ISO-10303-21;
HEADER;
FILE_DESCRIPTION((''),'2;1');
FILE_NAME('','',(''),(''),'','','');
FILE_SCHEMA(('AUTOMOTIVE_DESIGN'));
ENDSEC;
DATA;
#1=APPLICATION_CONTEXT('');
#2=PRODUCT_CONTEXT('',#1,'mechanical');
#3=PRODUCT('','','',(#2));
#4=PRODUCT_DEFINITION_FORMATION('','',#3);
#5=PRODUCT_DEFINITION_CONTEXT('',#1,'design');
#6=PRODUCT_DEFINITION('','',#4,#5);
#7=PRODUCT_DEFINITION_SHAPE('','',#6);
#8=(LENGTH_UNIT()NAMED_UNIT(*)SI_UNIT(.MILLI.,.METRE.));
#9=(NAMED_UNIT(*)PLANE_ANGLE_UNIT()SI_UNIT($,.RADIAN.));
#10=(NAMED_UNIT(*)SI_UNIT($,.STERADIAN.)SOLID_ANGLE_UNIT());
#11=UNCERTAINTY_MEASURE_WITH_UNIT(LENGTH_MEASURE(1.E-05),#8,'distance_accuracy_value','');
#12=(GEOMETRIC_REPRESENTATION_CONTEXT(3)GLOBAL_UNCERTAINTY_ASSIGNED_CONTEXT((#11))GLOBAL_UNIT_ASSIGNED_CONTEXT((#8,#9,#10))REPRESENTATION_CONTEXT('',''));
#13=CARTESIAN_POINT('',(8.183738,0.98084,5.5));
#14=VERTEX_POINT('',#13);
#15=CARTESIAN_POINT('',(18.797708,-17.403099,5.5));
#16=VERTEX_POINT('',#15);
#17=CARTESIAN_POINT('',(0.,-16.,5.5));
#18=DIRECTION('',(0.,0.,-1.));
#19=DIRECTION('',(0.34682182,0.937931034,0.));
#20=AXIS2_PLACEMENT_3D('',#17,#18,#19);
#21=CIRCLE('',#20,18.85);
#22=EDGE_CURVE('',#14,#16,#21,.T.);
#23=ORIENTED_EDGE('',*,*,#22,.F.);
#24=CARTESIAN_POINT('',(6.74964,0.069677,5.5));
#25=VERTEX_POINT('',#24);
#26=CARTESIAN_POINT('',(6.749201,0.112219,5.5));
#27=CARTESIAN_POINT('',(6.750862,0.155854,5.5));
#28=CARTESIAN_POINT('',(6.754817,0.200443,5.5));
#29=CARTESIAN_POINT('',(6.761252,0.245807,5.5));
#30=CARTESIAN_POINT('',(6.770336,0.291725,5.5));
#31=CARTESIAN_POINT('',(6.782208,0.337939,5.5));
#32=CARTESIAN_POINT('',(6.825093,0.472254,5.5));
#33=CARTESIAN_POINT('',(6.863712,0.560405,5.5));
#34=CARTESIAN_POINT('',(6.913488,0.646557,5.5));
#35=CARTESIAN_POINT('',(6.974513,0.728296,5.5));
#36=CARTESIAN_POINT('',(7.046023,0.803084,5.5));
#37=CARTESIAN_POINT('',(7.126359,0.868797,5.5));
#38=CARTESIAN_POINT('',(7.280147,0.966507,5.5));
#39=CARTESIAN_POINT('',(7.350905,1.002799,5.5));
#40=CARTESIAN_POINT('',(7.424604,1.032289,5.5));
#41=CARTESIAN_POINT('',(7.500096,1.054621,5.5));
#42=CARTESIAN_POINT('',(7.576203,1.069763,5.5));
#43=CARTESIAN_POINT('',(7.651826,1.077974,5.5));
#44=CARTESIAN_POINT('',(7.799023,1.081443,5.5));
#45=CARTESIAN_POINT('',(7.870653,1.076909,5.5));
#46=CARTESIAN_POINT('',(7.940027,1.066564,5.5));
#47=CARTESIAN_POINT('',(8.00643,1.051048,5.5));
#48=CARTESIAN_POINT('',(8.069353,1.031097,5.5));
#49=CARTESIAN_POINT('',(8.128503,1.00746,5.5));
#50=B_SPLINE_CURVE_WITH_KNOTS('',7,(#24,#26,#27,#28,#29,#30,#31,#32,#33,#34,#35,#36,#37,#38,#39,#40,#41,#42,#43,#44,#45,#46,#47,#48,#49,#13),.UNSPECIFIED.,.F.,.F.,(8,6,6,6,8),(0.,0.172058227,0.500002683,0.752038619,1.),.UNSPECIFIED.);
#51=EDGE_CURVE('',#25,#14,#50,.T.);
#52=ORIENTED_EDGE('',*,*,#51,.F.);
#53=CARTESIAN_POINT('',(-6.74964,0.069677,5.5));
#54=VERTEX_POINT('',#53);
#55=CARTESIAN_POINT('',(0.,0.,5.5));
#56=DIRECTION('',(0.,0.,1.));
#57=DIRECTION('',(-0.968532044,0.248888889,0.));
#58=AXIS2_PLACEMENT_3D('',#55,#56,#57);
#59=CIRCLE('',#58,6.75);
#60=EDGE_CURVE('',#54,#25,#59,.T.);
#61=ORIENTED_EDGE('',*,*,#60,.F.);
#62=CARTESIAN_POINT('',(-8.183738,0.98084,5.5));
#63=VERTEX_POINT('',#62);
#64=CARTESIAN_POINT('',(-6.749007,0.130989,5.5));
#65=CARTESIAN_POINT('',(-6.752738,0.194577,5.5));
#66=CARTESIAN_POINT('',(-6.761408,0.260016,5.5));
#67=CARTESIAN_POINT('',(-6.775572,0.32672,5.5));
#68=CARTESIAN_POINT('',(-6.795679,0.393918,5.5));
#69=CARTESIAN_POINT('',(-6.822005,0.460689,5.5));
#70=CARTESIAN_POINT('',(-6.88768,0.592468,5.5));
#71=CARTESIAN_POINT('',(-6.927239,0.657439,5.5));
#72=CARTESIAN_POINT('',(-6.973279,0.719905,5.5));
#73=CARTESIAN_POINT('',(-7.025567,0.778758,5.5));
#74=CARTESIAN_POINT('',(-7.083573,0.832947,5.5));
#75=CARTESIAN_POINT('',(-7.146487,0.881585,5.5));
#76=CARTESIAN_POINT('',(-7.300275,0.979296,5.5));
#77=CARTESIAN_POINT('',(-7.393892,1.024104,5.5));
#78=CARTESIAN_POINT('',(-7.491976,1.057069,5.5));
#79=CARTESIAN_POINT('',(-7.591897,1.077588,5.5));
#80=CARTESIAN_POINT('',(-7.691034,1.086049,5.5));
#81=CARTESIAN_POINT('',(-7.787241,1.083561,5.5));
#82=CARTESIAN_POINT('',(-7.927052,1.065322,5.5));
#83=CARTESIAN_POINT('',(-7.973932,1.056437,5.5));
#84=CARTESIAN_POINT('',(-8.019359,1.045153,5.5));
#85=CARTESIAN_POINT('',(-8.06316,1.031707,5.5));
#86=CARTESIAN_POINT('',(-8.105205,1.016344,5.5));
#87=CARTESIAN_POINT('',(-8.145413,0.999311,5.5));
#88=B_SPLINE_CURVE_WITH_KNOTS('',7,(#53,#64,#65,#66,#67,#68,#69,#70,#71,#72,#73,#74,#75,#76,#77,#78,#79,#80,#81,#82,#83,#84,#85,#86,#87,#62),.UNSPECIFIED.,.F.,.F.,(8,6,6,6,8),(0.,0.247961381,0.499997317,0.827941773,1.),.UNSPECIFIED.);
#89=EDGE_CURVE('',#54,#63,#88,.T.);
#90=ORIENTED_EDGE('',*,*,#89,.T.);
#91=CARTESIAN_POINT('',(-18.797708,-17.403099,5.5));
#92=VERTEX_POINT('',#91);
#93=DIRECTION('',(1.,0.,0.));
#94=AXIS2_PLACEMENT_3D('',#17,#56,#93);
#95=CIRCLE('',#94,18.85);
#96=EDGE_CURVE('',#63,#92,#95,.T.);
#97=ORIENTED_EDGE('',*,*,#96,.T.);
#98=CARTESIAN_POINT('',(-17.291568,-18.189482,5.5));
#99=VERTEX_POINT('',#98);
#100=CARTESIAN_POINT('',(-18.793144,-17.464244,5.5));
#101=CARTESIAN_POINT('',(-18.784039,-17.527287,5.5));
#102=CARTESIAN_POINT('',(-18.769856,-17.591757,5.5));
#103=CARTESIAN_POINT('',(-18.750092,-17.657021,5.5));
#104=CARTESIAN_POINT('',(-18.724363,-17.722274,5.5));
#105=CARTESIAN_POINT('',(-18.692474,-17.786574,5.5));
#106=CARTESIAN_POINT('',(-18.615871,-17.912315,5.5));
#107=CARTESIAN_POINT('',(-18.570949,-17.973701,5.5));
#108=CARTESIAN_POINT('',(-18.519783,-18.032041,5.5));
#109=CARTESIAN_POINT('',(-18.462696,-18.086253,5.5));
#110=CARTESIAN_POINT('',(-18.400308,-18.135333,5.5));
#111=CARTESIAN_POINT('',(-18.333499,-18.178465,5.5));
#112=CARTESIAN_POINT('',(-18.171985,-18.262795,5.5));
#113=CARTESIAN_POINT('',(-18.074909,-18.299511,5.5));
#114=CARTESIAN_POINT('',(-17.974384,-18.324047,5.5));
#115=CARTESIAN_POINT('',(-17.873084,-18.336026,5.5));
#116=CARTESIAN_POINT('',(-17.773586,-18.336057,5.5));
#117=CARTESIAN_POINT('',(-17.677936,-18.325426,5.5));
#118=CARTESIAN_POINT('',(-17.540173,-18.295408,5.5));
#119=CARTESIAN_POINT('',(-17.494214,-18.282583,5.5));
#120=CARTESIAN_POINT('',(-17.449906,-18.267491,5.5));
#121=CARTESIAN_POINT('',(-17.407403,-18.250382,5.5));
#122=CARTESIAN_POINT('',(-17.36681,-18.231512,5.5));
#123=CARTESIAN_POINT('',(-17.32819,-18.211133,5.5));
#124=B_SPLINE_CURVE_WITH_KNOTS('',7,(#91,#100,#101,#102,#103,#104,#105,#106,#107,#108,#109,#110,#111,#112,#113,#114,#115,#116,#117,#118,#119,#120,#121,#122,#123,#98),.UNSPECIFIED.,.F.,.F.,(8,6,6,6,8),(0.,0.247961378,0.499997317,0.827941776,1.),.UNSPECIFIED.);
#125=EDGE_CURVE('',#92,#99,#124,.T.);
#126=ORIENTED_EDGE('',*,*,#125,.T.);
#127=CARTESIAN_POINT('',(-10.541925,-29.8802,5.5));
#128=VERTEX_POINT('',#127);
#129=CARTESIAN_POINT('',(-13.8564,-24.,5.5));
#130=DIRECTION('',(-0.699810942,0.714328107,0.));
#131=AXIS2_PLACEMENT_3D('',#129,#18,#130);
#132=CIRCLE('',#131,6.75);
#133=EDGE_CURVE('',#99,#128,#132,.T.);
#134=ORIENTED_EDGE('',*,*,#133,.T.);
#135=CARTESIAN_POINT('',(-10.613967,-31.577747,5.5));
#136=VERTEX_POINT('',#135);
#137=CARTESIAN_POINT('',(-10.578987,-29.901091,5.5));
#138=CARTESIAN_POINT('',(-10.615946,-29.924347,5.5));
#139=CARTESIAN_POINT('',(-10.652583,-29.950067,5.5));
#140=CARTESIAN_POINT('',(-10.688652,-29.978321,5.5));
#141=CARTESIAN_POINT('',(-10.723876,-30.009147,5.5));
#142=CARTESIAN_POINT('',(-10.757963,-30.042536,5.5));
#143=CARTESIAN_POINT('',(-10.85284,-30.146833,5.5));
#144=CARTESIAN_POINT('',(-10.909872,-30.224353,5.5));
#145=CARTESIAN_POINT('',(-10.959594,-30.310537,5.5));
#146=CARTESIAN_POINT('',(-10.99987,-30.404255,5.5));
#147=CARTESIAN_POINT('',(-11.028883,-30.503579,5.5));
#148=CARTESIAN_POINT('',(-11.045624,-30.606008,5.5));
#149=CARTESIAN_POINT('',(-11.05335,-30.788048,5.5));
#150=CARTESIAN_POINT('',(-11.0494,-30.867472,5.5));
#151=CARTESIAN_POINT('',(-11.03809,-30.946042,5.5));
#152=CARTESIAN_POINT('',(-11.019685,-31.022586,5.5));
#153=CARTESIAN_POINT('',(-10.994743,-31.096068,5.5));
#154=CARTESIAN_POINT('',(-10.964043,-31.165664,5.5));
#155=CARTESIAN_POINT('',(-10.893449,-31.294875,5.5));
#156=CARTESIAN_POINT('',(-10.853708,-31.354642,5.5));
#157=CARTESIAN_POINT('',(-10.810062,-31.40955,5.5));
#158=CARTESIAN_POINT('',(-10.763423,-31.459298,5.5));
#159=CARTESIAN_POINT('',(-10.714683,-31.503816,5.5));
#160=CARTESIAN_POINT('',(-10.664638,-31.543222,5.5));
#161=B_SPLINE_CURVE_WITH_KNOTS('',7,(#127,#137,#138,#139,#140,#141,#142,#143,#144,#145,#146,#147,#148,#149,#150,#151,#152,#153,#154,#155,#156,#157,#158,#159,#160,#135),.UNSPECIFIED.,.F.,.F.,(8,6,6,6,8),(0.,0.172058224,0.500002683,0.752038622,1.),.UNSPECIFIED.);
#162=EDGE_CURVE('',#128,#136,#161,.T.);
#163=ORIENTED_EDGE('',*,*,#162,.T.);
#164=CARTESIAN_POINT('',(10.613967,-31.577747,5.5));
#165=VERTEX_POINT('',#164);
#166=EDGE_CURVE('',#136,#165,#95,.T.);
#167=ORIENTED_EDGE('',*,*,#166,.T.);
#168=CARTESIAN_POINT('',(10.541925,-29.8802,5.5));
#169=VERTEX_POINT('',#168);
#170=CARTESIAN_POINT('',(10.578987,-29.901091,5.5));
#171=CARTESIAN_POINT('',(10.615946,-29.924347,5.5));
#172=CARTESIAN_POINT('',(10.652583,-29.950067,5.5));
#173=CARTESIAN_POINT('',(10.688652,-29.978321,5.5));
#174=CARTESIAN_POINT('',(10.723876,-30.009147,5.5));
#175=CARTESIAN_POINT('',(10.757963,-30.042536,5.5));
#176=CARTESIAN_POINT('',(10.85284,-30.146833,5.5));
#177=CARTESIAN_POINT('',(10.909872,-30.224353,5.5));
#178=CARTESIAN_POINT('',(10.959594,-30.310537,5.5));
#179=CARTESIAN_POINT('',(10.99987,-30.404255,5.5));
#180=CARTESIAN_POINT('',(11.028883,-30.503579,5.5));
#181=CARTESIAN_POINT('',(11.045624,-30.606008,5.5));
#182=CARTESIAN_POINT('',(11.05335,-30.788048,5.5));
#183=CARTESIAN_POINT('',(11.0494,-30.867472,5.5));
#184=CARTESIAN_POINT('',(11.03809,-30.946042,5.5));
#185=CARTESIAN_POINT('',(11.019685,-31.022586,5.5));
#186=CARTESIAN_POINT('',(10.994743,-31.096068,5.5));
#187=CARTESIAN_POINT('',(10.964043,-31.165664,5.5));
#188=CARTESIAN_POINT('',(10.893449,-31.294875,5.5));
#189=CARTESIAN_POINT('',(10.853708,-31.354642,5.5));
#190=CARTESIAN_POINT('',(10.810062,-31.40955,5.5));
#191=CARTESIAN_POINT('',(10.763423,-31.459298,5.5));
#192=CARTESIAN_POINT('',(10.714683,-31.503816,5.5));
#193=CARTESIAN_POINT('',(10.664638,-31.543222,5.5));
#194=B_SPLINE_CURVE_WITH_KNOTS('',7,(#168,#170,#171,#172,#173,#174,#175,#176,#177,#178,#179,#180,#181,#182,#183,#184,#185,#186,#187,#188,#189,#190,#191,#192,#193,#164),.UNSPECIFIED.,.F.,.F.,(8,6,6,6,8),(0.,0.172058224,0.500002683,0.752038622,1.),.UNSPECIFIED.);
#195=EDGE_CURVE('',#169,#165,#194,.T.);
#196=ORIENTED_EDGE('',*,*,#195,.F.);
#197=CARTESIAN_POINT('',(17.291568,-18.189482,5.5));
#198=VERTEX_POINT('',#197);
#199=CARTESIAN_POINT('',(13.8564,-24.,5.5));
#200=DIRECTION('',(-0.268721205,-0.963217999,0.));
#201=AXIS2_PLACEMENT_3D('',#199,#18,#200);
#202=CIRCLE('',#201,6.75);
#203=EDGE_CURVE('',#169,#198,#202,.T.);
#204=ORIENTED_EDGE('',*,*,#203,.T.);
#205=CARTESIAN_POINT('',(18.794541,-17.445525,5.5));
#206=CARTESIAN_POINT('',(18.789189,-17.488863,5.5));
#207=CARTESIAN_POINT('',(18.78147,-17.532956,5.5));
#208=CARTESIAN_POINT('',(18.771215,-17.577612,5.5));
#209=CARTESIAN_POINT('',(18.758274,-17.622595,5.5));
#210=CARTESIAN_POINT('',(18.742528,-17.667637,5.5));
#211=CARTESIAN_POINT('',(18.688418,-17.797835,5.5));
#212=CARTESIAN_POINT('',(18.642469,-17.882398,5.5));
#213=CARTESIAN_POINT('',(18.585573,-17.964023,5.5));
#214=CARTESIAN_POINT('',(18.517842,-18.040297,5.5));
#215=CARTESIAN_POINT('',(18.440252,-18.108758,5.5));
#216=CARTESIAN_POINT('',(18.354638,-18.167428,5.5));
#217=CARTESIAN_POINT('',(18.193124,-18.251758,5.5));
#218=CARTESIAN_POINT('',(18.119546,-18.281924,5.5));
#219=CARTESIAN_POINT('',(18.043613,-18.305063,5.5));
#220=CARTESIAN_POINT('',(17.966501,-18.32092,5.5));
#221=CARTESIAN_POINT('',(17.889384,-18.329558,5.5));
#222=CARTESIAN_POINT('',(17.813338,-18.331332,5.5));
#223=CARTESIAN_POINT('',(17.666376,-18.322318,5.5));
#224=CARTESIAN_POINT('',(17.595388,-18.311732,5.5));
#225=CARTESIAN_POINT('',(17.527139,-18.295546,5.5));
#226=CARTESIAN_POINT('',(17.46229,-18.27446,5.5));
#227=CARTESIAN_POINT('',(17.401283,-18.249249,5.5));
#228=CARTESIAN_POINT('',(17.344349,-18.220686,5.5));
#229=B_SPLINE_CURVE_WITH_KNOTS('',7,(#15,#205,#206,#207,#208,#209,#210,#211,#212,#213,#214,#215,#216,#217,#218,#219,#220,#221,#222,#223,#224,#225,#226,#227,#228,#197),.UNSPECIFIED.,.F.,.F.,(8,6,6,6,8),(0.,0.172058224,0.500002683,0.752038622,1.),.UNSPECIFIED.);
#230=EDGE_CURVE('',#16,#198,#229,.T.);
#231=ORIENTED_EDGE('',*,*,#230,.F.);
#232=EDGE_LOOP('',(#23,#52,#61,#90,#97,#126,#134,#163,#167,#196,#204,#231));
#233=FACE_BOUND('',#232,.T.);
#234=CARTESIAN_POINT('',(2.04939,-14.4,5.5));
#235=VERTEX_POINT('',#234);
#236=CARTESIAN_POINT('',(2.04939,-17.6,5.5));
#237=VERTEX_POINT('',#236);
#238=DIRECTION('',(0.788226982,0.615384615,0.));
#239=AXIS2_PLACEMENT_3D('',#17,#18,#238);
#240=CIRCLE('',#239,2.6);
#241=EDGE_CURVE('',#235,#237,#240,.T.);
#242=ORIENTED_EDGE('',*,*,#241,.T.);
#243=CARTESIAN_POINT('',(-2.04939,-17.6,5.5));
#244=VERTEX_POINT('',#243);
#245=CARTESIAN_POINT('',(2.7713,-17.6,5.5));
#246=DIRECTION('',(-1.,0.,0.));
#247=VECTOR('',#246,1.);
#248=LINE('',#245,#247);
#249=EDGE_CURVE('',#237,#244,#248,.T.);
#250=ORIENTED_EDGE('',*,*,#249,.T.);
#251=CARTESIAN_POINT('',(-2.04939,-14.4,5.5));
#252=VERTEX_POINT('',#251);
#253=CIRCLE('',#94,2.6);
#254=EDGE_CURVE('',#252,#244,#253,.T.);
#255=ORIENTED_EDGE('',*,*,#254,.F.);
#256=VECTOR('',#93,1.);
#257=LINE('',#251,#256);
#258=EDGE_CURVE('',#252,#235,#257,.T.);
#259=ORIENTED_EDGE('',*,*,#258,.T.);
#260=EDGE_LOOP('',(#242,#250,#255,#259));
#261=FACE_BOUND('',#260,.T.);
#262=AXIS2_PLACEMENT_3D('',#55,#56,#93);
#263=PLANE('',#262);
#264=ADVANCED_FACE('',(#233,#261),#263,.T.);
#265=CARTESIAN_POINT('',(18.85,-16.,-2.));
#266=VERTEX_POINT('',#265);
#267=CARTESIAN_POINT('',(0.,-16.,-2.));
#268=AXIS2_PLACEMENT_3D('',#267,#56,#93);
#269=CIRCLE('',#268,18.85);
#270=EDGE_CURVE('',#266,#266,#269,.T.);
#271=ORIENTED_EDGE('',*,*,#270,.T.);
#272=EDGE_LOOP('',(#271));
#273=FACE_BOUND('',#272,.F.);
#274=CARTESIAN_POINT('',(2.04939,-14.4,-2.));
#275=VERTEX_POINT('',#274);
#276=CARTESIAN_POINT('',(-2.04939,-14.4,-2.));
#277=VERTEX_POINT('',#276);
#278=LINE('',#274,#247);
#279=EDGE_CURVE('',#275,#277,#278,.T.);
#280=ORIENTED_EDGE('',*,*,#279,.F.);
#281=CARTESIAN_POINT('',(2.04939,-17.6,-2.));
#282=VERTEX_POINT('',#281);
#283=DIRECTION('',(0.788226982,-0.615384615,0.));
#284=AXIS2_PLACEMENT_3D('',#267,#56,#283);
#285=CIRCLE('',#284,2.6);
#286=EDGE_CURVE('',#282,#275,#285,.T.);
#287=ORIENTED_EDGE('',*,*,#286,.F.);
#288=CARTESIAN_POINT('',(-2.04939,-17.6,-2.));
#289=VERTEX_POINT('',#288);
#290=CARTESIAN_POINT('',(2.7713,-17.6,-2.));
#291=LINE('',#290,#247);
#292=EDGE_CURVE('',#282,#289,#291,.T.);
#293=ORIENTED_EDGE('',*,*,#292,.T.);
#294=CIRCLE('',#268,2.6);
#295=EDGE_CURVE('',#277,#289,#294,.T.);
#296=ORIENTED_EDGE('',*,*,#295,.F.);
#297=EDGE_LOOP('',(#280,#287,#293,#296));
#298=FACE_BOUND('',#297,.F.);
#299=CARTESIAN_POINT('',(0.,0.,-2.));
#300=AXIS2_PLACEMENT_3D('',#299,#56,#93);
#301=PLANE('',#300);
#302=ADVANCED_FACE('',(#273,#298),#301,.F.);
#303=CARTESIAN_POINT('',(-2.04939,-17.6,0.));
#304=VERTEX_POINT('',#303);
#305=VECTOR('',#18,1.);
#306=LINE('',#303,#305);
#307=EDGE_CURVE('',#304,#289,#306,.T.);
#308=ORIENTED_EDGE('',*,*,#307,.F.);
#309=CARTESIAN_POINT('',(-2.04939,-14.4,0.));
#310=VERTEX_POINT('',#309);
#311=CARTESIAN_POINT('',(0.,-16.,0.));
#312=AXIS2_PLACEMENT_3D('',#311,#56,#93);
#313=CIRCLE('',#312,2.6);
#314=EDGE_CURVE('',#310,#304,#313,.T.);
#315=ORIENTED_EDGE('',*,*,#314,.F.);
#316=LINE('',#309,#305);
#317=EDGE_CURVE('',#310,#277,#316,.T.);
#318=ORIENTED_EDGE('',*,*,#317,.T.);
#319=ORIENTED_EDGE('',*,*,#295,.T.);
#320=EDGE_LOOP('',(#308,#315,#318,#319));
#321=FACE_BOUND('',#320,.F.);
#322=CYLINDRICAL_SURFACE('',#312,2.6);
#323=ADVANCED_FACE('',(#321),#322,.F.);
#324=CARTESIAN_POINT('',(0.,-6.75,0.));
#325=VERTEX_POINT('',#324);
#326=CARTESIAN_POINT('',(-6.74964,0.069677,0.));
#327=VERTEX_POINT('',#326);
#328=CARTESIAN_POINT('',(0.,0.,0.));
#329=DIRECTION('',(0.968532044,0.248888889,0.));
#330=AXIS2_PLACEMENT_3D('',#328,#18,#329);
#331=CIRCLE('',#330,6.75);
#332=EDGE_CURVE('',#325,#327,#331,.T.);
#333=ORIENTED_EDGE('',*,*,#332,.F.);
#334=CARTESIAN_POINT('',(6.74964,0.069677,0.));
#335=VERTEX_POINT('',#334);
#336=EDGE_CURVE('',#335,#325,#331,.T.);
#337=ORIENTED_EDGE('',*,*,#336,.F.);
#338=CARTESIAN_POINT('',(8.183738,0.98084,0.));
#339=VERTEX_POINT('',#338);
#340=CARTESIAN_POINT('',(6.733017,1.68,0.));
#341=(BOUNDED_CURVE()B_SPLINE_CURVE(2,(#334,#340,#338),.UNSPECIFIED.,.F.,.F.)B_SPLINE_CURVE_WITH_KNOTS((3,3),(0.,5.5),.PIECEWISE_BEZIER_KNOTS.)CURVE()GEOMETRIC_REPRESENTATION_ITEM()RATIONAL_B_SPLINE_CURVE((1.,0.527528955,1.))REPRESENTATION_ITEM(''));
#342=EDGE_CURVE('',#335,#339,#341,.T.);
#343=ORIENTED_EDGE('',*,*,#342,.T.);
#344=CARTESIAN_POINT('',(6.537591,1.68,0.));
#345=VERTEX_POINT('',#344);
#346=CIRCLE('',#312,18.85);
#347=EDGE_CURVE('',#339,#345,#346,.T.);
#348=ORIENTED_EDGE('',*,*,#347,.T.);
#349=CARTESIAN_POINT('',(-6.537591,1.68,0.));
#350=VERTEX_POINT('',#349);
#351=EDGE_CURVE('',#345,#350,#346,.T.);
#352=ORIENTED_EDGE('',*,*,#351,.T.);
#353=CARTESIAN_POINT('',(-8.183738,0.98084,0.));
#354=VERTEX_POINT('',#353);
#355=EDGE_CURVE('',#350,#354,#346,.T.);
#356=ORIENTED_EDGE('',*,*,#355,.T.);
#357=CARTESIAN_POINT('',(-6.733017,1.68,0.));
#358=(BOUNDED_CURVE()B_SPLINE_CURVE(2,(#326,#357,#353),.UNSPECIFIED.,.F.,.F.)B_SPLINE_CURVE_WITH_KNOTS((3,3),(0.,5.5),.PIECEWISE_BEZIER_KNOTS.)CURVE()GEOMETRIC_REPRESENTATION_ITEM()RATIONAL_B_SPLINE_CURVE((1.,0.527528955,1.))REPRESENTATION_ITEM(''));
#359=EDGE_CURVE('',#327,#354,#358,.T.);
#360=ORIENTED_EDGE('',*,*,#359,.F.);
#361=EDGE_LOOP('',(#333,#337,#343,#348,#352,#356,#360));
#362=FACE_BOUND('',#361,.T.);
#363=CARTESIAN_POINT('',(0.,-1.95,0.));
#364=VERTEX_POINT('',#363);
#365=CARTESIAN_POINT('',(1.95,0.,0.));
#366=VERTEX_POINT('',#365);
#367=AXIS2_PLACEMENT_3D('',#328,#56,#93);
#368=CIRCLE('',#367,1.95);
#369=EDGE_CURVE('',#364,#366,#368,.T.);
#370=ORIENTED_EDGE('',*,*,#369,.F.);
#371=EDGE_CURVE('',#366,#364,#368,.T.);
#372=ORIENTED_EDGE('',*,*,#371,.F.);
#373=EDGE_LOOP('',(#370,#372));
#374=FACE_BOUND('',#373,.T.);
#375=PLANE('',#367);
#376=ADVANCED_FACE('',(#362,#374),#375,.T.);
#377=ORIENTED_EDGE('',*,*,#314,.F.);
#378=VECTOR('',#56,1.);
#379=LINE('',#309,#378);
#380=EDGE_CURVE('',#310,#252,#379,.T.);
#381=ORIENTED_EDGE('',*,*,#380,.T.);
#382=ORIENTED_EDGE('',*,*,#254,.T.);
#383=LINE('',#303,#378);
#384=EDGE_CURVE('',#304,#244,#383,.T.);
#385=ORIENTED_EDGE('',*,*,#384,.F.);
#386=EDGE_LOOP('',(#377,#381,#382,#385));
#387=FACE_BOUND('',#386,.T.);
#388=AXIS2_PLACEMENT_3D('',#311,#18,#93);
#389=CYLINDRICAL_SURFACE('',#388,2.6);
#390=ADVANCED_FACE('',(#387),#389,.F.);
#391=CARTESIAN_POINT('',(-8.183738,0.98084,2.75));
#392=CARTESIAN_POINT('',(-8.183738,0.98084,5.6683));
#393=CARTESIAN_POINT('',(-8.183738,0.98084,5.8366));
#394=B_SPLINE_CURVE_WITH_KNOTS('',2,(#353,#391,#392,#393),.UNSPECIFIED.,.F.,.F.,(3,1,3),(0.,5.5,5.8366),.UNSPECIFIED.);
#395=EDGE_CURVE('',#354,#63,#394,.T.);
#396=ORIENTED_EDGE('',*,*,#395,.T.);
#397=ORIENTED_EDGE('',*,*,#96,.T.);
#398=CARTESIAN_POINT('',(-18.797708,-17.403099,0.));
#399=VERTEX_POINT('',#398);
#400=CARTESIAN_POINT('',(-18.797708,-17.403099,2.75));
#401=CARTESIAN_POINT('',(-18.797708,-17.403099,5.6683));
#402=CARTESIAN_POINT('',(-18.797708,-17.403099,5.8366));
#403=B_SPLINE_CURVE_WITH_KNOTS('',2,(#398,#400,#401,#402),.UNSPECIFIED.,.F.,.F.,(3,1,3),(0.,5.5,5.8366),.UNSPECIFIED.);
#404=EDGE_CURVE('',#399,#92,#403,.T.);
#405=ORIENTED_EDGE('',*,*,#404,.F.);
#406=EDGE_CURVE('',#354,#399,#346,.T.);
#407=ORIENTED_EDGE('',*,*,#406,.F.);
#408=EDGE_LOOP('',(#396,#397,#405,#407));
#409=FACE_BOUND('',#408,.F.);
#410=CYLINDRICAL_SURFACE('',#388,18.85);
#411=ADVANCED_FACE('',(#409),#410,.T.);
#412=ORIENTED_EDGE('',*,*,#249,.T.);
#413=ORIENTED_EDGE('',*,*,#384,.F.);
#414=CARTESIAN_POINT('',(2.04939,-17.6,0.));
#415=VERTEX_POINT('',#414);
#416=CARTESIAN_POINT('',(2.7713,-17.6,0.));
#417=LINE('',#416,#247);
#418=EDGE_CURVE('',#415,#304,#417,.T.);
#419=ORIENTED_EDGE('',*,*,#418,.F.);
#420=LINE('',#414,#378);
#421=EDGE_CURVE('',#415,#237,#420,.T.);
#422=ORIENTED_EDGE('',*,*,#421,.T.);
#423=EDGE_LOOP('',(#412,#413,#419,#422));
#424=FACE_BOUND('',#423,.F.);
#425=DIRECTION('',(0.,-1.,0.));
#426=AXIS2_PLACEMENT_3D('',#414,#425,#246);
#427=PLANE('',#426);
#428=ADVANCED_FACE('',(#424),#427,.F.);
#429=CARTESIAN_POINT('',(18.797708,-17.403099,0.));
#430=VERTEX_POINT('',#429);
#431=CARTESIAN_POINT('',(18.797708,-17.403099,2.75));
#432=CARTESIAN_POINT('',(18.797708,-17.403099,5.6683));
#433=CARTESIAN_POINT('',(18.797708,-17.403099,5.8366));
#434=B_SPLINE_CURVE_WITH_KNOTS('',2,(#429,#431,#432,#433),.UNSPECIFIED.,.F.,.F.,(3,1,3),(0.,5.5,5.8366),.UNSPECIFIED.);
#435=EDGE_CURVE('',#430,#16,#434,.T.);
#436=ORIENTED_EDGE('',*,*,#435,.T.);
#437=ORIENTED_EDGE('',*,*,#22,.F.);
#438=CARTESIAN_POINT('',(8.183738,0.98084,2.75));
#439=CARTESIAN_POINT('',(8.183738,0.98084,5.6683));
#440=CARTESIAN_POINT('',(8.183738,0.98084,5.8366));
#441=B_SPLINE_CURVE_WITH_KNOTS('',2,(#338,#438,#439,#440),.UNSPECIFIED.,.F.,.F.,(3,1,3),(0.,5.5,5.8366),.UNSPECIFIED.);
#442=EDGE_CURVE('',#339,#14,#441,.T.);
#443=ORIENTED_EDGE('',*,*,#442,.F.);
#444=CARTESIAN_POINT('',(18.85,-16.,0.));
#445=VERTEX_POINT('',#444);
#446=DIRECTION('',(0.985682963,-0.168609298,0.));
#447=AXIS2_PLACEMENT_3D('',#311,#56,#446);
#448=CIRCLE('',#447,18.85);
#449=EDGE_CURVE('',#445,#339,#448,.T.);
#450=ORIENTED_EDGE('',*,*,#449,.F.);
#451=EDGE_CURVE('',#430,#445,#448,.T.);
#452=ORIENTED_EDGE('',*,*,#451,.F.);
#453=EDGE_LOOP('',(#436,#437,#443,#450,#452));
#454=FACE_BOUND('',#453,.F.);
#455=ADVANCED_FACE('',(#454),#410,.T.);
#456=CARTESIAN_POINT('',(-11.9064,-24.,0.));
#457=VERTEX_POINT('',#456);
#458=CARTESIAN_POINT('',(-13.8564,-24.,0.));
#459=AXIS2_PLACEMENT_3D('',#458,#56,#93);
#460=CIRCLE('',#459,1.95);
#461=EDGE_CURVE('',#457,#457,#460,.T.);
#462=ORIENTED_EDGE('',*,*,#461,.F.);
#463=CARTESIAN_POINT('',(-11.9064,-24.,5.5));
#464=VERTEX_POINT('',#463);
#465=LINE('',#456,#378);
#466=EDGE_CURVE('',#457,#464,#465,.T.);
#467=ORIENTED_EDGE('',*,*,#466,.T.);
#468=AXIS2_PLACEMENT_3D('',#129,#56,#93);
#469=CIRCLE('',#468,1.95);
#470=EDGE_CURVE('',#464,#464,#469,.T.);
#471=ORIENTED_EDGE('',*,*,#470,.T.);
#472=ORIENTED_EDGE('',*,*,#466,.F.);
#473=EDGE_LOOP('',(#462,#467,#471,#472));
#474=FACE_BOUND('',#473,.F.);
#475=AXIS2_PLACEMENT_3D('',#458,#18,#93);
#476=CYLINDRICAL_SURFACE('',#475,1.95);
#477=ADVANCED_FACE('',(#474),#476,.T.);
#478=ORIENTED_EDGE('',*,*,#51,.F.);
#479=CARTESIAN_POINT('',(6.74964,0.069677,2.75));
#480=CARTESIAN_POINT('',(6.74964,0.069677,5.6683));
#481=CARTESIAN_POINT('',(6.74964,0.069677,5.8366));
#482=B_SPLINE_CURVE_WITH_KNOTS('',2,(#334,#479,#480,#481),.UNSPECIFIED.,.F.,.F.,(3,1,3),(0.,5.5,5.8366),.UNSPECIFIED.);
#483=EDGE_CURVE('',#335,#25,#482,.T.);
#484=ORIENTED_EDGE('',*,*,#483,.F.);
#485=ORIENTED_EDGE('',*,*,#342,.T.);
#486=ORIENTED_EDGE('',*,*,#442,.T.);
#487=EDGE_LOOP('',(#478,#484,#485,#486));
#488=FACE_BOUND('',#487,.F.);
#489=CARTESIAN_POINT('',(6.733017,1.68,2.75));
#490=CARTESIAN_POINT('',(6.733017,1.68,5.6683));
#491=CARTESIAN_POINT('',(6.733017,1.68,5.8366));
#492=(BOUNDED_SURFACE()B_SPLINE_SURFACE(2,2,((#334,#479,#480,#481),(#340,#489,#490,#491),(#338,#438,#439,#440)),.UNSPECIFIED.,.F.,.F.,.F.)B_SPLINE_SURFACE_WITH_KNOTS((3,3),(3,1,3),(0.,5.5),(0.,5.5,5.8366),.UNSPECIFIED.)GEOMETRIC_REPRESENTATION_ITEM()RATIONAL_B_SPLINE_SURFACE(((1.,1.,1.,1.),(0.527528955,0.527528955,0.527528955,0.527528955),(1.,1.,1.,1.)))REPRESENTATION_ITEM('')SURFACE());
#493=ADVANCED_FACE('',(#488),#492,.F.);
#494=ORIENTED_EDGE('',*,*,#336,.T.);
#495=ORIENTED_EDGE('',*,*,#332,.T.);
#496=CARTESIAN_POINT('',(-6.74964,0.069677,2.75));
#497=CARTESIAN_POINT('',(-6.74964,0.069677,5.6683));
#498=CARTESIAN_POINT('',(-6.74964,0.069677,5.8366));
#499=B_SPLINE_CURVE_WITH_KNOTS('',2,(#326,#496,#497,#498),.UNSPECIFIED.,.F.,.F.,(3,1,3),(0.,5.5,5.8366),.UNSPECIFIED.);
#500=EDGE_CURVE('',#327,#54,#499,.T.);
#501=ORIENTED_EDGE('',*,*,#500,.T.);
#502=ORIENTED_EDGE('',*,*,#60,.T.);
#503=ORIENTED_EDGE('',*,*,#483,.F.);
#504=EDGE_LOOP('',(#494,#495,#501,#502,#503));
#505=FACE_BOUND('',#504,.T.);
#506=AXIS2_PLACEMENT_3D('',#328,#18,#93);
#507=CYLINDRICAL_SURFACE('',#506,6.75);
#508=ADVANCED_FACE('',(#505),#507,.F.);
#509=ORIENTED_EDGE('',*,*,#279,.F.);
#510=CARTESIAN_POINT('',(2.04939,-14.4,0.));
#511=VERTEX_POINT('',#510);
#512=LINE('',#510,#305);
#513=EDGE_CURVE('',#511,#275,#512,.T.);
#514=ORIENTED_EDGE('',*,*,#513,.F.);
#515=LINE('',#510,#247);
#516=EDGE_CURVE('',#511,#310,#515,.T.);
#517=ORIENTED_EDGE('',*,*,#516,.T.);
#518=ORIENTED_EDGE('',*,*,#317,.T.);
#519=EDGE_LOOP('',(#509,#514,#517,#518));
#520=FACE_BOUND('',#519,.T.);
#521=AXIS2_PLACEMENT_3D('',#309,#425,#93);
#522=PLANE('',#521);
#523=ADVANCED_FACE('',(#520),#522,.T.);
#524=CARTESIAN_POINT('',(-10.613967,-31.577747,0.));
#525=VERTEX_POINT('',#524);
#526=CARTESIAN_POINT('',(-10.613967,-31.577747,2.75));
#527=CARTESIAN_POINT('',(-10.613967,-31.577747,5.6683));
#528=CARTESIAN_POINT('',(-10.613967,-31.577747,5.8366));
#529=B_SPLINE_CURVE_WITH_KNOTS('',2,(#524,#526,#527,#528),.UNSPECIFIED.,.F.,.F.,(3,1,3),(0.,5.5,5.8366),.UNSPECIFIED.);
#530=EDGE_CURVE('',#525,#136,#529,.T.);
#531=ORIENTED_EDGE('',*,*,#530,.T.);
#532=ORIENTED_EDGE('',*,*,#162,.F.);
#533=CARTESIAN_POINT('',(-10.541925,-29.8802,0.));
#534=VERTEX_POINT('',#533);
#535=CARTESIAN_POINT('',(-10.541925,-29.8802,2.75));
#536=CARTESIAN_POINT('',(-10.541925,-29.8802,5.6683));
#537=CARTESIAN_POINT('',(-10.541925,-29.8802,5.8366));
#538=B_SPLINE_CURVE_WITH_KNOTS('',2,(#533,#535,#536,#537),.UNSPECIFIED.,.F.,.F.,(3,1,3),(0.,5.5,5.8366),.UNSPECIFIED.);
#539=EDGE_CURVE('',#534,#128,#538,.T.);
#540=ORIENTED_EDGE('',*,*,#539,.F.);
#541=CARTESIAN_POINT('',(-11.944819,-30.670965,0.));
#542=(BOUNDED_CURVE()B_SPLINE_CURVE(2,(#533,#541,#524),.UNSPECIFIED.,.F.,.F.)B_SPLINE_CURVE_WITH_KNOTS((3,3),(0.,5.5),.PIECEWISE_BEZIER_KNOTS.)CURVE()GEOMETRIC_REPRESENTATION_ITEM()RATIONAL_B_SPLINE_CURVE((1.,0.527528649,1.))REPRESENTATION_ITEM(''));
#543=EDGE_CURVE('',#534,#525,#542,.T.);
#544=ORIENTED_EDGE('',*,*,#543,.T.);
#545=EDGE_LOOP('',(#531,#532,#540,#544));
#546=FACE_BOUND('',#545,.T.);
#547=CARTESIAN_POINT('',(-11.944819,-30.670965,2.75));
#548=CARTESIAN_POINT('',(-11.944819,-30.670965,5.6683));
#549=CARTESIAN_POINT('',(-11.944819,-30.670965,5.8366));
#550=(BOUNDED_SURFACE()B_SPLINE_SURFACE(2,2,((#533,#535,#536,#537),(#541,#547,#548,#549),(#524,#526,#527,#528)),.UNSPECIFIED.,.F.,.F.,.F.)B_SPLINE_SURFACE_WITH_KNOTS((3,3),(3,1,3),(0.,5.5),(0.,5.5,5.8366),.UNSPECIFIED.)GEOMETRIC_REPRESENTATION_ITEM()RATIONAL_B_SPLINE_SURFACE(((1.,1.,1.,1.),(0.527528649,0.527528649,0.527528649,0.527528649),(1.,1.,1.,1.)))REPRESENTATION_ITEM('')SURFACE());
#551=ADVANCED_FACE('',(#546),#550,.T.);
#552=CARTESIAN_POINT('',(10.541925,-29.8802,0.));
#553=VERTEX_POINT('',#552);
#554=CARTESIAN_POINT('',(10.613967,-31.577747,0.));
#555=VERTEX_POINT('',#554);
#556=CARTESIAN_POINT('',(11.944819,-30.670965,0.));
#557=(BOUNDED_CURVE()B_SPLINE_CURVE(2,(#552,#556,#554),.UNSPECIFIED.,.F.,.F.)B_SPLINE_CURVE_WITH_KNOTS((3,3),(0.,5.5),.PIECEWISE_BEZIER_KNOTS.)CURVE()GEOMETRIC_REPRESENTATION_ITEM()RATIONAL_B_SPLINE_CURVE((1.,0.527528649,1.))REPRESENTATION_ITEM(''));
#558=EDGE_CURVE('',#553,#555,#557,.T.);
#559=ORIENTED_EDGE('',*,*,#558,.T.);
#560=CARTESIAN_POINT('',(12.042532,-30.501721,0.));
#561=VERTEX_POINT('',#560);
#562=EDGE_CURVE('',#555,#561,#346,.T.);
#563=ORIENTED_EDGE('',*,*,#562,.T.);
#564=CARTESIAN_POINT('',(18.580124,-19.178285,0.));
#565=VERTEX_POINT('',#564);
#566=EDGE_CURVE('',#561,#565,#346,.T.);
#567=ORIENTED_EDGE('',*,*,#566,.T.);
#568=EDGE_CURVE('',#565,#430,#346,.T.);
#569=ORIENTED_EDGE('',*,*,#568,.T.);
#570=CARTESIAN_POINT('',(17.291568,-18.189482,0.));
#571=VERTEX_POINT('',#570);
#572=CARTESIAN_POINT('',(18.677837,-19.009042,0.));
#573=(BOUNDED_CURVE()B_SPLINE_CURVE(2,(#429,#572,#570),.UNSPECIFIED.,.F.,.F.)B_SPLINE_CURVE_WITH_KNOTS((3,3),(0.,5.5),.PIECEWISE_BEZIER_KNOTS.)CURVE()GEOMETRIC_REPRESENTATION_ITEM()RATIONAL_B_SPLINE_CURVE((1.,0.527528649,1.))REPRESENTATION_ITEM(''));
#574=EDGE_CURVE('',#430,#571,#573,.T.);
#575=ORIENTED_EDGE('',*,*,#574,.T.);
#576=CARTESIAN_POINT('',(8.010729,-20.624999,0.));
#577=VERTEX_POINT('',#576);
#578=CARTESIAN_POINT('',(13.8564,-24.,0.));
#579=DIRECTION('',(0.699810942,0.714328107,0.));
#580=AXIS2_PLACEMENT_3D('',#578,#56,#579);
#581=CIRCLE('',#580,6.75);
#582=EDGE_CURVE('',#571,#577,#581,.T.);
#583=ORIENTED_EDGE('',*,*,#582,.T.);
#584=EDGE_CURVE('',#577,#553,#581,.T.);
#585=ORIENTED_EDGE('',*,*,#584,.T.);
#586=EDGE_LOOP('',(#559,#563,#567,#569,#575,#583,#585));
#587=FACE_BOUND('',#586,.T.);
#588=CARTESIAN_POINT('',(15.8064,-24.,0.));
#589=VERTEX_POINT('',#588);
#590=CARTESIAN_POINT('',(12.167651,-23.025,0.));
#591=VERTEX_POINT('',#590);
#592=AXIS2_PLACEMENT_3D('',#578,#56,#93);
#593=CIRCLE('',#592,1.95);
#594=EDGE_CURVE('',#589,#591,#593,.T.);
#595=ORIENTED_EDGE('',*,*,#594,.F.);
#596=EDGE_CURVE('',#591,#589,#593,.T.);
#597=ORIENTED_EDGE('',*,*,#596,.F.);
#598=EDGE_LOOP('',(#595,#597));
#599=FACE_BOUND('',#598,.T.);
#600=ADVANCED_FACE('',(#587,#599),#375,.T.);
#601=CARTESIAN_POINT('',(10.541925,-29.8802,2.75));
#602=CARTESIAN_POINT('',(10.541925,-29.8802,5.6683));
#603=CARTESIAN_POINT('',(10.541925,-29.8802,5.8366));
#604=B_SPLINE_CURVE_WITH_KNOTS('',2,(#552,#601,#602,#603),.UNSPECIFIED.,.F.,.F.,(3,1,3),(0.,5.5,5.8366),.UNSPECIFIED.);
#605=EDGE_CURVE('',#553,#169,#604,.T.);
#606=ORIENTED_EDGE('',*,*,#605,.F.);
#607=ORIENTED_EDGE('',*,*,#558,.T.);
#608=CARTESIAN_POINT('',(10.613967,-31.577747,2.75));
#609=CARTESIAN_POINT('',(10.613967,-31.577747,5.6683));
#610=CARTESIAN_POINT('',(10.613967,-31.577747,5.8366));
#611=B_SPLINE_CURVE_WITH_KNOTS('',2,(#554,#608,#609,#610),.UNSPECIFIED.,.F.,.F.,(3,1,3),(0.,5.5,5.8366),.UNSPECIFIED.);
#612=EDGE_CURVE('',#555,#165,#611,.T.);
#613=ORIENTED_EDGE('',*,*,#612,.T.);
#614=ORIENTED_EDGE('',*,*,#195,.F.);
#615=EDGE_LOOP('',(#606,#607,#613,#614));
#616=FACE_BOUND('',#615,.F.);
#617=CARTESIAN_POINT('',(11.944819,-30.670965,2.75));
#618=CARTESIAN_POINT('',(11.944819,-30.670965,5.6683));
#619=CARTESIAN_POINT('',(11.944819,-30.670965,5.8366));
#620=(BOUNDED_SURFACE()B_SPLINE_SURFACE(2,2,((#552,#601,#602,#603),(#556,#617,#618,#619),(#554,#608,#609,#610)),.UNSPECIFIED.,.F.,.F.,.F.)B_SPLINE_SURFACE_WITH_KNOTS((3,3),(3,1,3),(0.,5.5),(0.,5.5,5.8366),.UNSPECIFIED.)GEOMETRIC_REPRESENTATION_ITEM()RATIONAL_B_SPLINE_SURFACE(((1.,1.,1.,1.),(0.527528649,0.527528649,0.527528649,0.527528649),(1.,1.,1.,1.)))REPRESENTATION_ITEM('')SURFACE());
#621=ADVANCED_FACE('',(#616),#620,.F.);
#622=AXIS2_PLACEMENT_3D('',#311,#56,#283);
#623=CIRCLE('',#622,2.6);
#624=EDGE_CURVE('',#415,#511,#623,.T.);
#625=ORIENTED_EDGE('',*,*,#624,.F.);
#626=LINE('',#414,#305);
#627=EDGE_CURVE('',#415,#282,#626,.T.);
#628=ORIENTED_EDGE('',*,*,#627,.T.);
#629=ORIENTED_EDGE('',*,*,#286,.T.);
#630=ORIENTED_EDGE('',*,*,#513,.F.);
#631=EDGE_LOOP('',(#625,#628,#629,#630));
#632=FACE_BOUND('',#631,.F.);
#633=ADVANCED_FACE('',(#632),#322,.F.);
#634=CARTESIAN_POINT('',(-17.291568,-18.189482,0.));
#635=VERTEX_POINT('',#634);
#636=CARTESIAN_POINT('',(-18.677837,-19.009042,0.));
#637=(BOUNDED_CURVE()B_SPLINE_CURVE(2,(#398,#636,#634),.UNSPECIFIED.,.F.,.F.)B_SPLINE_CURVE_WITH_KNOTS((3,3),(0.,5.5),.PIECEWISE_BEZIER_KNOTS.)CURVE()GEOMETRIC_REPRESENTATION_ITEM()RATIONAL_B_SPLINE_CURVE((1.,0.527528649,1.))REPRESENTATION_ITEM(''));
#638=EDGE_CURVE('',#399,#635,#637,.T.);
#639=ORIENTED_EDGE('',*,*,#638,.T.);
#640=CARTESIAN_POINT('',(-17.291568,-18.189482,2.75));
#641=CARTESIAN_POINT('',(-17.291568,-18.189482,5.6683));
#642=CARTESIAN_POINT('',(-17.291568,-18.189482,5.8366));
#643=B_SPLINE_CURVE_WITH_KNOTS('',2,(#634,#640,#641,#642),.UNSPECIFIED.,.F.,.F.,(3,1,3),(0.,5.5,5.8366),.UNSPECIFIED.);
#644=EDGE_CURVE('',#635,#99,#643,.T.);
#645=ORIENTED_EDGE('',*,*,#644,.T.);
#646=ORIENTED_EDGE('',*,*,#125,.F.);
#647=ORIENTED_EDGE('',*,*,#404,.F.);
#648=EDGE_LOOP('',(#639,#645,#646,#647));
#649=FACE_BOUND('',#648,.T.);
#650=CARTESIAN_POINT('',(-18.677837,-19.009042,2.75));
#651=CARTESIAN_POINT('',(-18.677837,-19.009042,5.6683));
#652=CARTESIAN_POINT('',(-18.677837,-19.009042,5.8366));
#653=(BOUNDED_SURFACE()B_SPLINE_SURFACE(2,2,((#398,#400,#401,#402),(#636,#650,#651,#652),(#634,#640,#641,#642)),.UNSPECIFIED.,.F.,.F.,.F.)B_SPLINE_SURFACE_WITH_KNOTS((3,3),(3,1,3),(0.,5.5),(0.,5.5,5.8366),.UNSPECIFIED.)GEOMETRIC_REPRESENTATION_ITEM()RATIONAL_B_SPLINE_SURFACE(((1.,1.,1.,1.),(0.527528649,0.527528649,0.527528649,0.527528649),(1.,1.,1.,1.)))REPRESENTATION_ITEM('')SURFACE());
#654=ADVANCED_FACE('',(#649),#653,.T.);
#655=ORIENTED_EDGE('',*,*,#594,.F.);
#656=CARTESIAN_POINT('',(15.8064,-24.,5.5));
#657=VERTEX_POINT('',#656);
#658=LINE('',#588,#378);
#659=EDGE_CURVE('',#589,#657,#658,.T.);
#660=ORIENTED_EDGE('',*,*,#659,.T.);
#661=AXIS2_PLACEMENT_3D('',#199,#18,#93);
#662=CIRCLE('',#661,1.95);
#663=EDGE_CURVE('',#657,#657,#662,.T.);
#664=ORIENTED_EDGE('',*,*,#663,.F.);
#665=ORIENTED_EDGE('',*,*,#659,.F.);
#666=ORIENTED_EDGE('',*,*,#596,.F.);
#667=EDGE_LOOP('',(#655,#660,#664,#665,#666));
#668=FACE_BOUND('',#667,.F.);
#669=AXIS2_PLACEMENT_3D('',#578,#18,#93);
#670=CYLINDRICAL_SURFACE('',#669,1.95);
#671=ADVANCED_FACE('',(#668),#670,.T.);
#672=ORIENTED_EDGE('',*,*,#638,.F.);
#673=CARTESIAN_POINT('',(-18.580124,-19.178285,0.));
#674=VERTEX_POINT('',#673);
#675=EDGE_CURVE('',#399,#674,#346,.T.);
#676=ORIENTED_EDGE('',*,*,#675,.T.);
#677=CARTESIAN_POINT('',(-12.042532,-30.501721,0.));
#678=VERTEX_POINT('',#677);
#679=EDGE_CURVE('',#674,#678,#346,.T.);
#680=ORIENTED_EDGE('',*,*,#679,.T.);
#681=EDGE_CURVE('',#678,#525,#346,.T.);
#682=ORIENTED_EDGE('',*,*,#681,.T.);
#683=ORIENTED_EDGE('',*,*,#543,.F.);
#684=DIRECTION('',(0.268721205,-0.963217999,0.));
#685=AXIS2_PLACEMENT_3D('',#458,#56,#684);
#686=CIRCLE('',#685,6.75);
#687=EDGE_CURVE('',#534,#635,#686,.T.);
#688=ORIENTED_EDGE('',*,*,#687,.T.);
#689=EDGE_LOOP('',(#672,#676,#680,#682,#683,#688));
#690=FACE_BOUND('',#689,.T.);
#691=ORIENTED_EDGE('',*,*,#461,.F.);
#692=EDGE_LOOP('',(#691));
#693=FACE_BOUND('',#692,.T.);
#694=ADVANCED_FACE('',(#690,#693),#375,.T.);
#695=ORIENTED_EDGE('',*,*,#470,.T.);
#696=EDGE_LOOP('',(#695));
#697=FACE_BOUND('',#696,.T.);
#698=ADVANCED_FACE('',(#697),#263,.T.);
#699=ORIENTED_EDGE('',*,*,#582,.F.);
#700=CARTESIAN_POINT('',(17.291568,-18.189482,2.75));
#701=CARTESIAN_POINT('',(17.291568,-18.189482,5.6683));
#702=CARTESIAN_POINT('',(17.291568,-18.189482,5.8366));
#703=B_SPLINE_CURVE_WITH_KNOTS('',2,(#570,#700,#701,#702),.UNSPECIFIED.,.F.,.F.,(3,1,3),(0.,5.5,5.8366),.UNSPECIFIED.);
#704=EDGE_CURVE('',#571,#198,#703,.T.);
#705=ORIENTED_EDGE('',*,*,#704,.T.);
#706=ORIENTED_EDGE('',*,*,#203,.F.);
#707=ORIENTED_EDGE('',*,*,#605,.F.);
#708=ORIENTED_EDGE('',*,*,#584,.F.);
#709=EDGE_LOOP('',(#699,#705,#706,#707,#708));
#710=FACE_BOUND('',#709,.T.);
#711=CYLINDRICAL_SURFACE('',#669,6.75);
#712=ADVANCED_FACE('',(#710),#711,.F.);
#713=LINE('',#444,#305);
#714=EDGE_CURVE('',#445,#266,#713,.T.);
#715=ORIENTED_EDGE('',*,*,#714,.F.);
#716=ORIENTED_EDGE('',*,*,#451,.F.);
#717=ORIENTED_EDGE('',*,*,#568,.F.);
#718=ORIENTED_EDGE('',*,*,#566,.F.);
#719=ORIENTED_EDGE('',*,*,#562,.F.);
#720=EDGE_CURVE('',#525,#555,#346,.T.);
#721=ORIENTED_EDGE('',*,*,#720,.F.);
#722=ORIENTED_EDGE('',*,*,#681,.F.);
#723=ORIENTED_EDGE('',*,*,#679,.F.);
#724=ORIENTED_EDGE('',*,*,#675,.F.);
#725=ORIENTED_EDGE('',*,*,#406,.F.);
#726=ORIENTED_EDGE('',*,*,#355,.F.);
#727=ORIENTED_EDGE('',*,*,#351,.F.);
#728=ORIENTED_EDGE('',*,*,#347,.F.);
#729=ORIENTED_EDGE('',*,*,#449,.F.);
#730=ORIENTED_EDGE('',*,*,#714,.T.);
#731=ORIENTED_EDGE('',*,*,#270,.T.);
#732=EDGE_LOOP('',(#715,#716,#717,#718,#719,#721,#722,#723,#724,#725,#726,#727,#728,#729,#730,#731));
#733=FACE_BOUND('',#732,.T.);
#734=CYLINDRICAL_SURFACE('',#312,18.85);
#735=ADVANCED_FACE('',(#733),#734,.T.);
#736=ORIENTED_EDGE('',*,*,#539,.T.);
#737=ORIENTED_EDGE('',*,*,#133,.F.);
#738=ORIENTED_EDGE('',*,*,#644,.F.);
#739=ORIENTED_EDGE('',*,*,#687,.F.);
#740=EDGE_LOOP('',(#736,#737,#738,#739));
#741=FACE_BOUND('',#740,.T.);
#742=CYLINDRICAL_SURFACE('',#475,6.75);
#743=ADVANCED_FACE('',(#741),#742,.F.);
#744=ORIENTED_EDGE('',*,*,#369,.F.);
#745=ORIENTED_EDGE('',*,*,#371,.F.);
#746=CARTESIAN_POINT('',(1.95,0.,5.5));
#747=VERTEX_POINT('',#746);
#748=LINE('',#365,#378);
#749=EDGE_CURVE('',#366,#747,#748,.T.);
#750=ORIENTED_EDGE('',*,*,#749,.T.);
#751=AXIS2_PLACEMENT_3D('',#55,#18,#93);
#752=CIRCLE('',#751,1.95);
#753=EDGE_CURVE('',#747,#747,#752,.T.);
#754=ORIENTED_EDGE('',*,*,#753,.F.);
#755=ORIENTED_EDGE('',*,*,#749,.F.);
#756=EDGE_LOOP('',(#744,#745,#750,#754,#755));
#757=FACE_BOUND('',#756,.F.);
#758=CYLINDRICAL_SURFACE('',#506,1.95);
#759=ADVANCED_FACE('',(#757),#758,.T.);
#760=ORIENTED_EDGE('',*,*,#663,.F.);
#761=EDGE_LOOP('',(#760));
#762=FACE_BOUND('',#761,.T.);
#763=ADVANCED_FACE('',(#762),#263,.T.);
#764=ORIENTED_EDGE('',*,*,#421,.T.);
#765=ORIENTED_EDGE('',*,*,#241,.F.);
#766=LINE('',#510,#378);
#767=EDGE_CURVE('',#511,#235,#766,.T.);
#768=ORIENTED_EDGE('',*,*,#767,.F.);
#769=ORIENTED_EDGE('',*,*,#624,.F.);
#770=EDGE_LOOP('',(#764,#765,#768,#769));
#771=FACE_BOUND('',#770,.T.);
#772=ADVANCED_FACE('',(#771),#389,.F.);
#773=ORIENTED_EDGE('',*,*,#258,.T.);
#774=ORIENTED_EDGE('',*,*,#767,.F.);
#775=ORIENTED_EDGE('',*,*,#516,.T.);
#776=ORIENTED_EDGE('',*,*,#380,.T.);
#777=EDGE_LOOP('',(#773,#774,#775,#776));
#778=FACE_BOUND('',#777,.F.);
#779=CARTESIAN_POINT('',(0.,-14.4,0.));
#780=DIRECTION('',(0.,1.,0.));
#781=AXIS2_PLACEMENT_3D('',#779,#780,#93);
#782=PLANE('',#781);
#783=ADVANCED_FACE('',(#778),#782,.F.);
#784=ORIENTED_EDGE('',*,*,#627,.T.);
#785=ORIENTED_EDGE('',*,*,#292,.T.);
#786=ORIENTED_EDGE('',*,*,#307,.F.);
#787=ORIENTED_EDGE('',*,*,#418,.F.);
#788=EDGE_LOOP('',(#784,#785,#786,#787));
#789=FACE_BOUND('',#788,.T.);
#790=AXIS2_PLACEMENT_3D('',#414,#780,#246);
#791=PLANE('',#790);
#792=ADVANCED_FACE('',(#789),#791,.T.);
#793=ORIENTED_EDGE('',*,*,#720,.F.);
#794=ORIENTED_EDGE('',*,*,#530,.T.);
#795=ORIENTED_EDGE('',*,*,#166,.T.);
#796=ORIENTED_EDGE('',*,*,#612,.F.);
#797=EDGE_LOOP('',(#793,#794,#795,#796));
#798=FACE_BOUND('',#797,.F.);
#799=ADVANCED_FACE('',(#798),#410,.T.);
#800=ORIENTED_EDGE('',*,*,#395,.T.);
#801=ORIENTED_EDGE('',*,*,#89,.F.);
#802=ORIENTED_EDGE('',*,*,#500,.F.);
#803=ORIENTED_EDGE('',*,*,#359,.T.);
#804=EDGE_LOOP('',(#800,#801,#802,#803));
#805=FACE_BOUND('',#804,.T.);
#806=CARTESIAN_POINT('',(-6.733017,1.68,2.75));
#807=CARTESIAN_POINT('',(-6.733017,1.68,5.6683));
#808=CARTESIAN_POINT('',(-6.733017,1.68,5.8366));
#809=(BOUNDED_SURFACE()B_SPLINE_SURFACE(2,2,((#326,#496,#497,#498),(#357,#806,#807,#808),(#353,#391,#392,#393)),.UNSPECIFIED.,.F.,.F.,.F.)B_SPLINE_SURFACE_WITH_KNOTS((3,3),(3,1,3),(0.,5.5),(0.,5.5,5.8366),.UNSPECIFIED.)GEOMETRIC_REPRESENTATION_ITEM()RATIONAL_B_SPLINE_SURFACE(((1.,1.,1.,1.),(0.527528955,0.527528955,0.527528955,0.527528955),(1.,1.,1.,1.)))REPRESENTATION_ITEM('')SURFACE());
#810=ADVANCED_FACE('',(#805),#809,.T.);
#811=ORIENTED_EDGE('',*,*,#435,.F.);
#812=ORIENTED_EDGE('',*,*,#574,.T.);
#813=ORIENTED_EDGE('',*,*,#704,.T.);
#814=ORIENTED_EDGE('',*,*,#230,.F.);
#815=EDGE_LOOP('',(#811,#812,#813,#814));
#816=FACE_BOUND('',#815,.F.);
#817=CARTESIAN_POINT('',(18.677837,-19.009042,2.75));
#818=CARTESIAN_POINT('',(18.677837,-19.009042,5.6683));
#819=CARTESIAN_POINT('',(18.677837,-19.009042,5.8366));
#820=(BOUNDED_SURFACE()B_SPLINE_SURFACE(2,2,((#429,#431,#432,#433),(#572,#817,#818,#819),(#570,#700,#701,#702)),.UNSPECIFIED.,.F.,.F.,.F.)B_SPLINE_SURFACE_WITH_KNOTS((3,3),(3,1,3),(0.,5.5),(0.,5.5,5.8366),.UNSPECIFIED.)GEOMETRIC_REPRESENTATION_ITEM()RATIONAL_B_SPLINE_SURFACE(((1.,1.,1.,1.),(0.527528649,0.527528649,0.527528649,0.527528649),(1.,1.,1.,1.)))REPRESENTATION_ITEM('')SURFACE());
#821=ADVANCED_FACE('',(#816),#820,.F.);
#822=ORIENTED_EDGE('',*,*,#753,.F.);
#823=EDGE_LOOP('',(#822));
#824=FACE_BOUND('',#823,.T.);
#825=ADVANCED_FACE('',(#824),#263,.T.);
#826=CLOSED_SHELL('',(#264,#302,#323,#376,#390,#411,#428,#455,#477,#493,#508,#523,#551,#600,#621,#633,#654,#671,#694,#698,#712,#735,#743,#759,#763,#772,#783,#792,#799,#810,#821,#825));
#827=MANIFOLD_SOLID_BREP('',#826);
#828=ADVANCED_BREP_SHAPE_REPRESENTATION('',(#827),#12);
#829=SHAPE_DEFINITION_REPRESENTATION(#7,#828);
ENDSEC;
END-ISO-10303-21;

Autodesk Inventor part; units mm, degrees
ref_plane "YZ Plane" through (0, 0, 0) normal (1, 0, 0) x (0, 1, 0)
ref_plane "XZ Plane" through (0, 0, 0) normal (0, 1, 0) x (-1, 0, 0)
ref_plane "XY Plane" through (0, 0, 0) normal (0, 0, 1) x (1, 0, 0)
sketch "Sketch1" plane through (0, 0, 0) normal (0, 0, 1) x (1, 0, 0)
  circle A0 centre (0, 0) radius 6.75
  circle A1 centre (0, 0) radius 1.95
  line L0 (0, 0) -> (0, -16)
  circle A2 centre (-13.8564, -24) radius 6.75
  circle A3 centre (-13.8564, -24) radius 1.95
  line L1 (-13.8564, -24) -> (0, -16) construction
  circle A4 centre (13.8564, -24) radius 6.75
  circle A5 centre (13.8564, -24) radius 1.95
  line L2 (13.8564, -24) -> (0, -16)
  circle A6 centre (0, -16) radius 18.85
  circle A7 centre (0, -16) radius 1.05 construction
  circle A8 centre (0, -16) radius 2.6
  line L3 (-2.7713, -14.4) -> (2.7713, -14.4)
  line L4 (2.7713, -14.4) -> (2.7713, -17.6)
  line L5 (2.7713, -17.6) -> (-2.7713, -17.6)
  line L6 (-2.7713, -17.6) -> (-2.7713, -14.4)
  line L7 (-2.7713, -14.4) -> (2.7713, -17.6) construction
  line L8 (2.7713, -14.4) -> (-2.7713, -17.6) construction
  point P0 (18.5801, -19.1783)
  point P1 (6.5376, 1.68)
  point P2 (-6.5376, 1.68)
  point P3 (-18.5801, -19.1783)
  point P4 (-12.0425, -30.5017)
  point P5 (12.0425, -30.5017)
  point P6 (-2.0494, -17.6)
  point P7 (-2.0494, -14.4)
  point P8 (2.0494, -14.4)
  point P9 (2.0494, -17.6)
  dimension "d0" = 13.5
  dimension "d1" = 3.9
  dimension "d2" = 16
  dimension "d5" = 360
  dimension "d12" = 2.1
  dimension "d14" = 37.7
  dimension "d15" = 5.2
  dimension "d21" = 3.2
extrude "Extrusion1" add sketch "Sketch1" along normal blind 5.5 contours A1 | A0 A6 A4 L2 L4 L3 A8 L0 | L0 A8 L3 L6 L5 L2 A4 A6 A2 A0 | A8 L3 L0 | L0 L3 A8 | A5 | L3 L4 L2 A8 | A8 L5 L6 L3 | L5 A8 | L5 A8 L2 | A3
extrude "Extrusion2" add sketch "Sketch1" against normal blind 2 contours A1 | A0 A6 | A0 A6 A4 L2 L4 L3 A8 L0 | L0 A8 L3 L6 L5 L2 A4 A6 A2 A0 | A8 L3 L0 | L0 L3 A8 | A2 A6 | A5 | A6 A4 | L3 L4 L2 A8 | A8 L5 L6 L3 | L5 A8 | L5 A8 L2 | A3 picked at (3.5494, 1.6258) picked at (-17.0724, -21.7739) picked at (17.0771, -21.7793)
fillet "Fillet1" radius 1 6 edges at (-12.0425, -30.5017, 2.75) (-18.5801, -19.1783, 2.75) (18.5801, -19.1783, 2.75) (12.0425, -30.5017, 2.75) (6.5376, 1.68, 2.75) (-6.5376, 1.68, 2.75)
properties part number "gewindeding"
